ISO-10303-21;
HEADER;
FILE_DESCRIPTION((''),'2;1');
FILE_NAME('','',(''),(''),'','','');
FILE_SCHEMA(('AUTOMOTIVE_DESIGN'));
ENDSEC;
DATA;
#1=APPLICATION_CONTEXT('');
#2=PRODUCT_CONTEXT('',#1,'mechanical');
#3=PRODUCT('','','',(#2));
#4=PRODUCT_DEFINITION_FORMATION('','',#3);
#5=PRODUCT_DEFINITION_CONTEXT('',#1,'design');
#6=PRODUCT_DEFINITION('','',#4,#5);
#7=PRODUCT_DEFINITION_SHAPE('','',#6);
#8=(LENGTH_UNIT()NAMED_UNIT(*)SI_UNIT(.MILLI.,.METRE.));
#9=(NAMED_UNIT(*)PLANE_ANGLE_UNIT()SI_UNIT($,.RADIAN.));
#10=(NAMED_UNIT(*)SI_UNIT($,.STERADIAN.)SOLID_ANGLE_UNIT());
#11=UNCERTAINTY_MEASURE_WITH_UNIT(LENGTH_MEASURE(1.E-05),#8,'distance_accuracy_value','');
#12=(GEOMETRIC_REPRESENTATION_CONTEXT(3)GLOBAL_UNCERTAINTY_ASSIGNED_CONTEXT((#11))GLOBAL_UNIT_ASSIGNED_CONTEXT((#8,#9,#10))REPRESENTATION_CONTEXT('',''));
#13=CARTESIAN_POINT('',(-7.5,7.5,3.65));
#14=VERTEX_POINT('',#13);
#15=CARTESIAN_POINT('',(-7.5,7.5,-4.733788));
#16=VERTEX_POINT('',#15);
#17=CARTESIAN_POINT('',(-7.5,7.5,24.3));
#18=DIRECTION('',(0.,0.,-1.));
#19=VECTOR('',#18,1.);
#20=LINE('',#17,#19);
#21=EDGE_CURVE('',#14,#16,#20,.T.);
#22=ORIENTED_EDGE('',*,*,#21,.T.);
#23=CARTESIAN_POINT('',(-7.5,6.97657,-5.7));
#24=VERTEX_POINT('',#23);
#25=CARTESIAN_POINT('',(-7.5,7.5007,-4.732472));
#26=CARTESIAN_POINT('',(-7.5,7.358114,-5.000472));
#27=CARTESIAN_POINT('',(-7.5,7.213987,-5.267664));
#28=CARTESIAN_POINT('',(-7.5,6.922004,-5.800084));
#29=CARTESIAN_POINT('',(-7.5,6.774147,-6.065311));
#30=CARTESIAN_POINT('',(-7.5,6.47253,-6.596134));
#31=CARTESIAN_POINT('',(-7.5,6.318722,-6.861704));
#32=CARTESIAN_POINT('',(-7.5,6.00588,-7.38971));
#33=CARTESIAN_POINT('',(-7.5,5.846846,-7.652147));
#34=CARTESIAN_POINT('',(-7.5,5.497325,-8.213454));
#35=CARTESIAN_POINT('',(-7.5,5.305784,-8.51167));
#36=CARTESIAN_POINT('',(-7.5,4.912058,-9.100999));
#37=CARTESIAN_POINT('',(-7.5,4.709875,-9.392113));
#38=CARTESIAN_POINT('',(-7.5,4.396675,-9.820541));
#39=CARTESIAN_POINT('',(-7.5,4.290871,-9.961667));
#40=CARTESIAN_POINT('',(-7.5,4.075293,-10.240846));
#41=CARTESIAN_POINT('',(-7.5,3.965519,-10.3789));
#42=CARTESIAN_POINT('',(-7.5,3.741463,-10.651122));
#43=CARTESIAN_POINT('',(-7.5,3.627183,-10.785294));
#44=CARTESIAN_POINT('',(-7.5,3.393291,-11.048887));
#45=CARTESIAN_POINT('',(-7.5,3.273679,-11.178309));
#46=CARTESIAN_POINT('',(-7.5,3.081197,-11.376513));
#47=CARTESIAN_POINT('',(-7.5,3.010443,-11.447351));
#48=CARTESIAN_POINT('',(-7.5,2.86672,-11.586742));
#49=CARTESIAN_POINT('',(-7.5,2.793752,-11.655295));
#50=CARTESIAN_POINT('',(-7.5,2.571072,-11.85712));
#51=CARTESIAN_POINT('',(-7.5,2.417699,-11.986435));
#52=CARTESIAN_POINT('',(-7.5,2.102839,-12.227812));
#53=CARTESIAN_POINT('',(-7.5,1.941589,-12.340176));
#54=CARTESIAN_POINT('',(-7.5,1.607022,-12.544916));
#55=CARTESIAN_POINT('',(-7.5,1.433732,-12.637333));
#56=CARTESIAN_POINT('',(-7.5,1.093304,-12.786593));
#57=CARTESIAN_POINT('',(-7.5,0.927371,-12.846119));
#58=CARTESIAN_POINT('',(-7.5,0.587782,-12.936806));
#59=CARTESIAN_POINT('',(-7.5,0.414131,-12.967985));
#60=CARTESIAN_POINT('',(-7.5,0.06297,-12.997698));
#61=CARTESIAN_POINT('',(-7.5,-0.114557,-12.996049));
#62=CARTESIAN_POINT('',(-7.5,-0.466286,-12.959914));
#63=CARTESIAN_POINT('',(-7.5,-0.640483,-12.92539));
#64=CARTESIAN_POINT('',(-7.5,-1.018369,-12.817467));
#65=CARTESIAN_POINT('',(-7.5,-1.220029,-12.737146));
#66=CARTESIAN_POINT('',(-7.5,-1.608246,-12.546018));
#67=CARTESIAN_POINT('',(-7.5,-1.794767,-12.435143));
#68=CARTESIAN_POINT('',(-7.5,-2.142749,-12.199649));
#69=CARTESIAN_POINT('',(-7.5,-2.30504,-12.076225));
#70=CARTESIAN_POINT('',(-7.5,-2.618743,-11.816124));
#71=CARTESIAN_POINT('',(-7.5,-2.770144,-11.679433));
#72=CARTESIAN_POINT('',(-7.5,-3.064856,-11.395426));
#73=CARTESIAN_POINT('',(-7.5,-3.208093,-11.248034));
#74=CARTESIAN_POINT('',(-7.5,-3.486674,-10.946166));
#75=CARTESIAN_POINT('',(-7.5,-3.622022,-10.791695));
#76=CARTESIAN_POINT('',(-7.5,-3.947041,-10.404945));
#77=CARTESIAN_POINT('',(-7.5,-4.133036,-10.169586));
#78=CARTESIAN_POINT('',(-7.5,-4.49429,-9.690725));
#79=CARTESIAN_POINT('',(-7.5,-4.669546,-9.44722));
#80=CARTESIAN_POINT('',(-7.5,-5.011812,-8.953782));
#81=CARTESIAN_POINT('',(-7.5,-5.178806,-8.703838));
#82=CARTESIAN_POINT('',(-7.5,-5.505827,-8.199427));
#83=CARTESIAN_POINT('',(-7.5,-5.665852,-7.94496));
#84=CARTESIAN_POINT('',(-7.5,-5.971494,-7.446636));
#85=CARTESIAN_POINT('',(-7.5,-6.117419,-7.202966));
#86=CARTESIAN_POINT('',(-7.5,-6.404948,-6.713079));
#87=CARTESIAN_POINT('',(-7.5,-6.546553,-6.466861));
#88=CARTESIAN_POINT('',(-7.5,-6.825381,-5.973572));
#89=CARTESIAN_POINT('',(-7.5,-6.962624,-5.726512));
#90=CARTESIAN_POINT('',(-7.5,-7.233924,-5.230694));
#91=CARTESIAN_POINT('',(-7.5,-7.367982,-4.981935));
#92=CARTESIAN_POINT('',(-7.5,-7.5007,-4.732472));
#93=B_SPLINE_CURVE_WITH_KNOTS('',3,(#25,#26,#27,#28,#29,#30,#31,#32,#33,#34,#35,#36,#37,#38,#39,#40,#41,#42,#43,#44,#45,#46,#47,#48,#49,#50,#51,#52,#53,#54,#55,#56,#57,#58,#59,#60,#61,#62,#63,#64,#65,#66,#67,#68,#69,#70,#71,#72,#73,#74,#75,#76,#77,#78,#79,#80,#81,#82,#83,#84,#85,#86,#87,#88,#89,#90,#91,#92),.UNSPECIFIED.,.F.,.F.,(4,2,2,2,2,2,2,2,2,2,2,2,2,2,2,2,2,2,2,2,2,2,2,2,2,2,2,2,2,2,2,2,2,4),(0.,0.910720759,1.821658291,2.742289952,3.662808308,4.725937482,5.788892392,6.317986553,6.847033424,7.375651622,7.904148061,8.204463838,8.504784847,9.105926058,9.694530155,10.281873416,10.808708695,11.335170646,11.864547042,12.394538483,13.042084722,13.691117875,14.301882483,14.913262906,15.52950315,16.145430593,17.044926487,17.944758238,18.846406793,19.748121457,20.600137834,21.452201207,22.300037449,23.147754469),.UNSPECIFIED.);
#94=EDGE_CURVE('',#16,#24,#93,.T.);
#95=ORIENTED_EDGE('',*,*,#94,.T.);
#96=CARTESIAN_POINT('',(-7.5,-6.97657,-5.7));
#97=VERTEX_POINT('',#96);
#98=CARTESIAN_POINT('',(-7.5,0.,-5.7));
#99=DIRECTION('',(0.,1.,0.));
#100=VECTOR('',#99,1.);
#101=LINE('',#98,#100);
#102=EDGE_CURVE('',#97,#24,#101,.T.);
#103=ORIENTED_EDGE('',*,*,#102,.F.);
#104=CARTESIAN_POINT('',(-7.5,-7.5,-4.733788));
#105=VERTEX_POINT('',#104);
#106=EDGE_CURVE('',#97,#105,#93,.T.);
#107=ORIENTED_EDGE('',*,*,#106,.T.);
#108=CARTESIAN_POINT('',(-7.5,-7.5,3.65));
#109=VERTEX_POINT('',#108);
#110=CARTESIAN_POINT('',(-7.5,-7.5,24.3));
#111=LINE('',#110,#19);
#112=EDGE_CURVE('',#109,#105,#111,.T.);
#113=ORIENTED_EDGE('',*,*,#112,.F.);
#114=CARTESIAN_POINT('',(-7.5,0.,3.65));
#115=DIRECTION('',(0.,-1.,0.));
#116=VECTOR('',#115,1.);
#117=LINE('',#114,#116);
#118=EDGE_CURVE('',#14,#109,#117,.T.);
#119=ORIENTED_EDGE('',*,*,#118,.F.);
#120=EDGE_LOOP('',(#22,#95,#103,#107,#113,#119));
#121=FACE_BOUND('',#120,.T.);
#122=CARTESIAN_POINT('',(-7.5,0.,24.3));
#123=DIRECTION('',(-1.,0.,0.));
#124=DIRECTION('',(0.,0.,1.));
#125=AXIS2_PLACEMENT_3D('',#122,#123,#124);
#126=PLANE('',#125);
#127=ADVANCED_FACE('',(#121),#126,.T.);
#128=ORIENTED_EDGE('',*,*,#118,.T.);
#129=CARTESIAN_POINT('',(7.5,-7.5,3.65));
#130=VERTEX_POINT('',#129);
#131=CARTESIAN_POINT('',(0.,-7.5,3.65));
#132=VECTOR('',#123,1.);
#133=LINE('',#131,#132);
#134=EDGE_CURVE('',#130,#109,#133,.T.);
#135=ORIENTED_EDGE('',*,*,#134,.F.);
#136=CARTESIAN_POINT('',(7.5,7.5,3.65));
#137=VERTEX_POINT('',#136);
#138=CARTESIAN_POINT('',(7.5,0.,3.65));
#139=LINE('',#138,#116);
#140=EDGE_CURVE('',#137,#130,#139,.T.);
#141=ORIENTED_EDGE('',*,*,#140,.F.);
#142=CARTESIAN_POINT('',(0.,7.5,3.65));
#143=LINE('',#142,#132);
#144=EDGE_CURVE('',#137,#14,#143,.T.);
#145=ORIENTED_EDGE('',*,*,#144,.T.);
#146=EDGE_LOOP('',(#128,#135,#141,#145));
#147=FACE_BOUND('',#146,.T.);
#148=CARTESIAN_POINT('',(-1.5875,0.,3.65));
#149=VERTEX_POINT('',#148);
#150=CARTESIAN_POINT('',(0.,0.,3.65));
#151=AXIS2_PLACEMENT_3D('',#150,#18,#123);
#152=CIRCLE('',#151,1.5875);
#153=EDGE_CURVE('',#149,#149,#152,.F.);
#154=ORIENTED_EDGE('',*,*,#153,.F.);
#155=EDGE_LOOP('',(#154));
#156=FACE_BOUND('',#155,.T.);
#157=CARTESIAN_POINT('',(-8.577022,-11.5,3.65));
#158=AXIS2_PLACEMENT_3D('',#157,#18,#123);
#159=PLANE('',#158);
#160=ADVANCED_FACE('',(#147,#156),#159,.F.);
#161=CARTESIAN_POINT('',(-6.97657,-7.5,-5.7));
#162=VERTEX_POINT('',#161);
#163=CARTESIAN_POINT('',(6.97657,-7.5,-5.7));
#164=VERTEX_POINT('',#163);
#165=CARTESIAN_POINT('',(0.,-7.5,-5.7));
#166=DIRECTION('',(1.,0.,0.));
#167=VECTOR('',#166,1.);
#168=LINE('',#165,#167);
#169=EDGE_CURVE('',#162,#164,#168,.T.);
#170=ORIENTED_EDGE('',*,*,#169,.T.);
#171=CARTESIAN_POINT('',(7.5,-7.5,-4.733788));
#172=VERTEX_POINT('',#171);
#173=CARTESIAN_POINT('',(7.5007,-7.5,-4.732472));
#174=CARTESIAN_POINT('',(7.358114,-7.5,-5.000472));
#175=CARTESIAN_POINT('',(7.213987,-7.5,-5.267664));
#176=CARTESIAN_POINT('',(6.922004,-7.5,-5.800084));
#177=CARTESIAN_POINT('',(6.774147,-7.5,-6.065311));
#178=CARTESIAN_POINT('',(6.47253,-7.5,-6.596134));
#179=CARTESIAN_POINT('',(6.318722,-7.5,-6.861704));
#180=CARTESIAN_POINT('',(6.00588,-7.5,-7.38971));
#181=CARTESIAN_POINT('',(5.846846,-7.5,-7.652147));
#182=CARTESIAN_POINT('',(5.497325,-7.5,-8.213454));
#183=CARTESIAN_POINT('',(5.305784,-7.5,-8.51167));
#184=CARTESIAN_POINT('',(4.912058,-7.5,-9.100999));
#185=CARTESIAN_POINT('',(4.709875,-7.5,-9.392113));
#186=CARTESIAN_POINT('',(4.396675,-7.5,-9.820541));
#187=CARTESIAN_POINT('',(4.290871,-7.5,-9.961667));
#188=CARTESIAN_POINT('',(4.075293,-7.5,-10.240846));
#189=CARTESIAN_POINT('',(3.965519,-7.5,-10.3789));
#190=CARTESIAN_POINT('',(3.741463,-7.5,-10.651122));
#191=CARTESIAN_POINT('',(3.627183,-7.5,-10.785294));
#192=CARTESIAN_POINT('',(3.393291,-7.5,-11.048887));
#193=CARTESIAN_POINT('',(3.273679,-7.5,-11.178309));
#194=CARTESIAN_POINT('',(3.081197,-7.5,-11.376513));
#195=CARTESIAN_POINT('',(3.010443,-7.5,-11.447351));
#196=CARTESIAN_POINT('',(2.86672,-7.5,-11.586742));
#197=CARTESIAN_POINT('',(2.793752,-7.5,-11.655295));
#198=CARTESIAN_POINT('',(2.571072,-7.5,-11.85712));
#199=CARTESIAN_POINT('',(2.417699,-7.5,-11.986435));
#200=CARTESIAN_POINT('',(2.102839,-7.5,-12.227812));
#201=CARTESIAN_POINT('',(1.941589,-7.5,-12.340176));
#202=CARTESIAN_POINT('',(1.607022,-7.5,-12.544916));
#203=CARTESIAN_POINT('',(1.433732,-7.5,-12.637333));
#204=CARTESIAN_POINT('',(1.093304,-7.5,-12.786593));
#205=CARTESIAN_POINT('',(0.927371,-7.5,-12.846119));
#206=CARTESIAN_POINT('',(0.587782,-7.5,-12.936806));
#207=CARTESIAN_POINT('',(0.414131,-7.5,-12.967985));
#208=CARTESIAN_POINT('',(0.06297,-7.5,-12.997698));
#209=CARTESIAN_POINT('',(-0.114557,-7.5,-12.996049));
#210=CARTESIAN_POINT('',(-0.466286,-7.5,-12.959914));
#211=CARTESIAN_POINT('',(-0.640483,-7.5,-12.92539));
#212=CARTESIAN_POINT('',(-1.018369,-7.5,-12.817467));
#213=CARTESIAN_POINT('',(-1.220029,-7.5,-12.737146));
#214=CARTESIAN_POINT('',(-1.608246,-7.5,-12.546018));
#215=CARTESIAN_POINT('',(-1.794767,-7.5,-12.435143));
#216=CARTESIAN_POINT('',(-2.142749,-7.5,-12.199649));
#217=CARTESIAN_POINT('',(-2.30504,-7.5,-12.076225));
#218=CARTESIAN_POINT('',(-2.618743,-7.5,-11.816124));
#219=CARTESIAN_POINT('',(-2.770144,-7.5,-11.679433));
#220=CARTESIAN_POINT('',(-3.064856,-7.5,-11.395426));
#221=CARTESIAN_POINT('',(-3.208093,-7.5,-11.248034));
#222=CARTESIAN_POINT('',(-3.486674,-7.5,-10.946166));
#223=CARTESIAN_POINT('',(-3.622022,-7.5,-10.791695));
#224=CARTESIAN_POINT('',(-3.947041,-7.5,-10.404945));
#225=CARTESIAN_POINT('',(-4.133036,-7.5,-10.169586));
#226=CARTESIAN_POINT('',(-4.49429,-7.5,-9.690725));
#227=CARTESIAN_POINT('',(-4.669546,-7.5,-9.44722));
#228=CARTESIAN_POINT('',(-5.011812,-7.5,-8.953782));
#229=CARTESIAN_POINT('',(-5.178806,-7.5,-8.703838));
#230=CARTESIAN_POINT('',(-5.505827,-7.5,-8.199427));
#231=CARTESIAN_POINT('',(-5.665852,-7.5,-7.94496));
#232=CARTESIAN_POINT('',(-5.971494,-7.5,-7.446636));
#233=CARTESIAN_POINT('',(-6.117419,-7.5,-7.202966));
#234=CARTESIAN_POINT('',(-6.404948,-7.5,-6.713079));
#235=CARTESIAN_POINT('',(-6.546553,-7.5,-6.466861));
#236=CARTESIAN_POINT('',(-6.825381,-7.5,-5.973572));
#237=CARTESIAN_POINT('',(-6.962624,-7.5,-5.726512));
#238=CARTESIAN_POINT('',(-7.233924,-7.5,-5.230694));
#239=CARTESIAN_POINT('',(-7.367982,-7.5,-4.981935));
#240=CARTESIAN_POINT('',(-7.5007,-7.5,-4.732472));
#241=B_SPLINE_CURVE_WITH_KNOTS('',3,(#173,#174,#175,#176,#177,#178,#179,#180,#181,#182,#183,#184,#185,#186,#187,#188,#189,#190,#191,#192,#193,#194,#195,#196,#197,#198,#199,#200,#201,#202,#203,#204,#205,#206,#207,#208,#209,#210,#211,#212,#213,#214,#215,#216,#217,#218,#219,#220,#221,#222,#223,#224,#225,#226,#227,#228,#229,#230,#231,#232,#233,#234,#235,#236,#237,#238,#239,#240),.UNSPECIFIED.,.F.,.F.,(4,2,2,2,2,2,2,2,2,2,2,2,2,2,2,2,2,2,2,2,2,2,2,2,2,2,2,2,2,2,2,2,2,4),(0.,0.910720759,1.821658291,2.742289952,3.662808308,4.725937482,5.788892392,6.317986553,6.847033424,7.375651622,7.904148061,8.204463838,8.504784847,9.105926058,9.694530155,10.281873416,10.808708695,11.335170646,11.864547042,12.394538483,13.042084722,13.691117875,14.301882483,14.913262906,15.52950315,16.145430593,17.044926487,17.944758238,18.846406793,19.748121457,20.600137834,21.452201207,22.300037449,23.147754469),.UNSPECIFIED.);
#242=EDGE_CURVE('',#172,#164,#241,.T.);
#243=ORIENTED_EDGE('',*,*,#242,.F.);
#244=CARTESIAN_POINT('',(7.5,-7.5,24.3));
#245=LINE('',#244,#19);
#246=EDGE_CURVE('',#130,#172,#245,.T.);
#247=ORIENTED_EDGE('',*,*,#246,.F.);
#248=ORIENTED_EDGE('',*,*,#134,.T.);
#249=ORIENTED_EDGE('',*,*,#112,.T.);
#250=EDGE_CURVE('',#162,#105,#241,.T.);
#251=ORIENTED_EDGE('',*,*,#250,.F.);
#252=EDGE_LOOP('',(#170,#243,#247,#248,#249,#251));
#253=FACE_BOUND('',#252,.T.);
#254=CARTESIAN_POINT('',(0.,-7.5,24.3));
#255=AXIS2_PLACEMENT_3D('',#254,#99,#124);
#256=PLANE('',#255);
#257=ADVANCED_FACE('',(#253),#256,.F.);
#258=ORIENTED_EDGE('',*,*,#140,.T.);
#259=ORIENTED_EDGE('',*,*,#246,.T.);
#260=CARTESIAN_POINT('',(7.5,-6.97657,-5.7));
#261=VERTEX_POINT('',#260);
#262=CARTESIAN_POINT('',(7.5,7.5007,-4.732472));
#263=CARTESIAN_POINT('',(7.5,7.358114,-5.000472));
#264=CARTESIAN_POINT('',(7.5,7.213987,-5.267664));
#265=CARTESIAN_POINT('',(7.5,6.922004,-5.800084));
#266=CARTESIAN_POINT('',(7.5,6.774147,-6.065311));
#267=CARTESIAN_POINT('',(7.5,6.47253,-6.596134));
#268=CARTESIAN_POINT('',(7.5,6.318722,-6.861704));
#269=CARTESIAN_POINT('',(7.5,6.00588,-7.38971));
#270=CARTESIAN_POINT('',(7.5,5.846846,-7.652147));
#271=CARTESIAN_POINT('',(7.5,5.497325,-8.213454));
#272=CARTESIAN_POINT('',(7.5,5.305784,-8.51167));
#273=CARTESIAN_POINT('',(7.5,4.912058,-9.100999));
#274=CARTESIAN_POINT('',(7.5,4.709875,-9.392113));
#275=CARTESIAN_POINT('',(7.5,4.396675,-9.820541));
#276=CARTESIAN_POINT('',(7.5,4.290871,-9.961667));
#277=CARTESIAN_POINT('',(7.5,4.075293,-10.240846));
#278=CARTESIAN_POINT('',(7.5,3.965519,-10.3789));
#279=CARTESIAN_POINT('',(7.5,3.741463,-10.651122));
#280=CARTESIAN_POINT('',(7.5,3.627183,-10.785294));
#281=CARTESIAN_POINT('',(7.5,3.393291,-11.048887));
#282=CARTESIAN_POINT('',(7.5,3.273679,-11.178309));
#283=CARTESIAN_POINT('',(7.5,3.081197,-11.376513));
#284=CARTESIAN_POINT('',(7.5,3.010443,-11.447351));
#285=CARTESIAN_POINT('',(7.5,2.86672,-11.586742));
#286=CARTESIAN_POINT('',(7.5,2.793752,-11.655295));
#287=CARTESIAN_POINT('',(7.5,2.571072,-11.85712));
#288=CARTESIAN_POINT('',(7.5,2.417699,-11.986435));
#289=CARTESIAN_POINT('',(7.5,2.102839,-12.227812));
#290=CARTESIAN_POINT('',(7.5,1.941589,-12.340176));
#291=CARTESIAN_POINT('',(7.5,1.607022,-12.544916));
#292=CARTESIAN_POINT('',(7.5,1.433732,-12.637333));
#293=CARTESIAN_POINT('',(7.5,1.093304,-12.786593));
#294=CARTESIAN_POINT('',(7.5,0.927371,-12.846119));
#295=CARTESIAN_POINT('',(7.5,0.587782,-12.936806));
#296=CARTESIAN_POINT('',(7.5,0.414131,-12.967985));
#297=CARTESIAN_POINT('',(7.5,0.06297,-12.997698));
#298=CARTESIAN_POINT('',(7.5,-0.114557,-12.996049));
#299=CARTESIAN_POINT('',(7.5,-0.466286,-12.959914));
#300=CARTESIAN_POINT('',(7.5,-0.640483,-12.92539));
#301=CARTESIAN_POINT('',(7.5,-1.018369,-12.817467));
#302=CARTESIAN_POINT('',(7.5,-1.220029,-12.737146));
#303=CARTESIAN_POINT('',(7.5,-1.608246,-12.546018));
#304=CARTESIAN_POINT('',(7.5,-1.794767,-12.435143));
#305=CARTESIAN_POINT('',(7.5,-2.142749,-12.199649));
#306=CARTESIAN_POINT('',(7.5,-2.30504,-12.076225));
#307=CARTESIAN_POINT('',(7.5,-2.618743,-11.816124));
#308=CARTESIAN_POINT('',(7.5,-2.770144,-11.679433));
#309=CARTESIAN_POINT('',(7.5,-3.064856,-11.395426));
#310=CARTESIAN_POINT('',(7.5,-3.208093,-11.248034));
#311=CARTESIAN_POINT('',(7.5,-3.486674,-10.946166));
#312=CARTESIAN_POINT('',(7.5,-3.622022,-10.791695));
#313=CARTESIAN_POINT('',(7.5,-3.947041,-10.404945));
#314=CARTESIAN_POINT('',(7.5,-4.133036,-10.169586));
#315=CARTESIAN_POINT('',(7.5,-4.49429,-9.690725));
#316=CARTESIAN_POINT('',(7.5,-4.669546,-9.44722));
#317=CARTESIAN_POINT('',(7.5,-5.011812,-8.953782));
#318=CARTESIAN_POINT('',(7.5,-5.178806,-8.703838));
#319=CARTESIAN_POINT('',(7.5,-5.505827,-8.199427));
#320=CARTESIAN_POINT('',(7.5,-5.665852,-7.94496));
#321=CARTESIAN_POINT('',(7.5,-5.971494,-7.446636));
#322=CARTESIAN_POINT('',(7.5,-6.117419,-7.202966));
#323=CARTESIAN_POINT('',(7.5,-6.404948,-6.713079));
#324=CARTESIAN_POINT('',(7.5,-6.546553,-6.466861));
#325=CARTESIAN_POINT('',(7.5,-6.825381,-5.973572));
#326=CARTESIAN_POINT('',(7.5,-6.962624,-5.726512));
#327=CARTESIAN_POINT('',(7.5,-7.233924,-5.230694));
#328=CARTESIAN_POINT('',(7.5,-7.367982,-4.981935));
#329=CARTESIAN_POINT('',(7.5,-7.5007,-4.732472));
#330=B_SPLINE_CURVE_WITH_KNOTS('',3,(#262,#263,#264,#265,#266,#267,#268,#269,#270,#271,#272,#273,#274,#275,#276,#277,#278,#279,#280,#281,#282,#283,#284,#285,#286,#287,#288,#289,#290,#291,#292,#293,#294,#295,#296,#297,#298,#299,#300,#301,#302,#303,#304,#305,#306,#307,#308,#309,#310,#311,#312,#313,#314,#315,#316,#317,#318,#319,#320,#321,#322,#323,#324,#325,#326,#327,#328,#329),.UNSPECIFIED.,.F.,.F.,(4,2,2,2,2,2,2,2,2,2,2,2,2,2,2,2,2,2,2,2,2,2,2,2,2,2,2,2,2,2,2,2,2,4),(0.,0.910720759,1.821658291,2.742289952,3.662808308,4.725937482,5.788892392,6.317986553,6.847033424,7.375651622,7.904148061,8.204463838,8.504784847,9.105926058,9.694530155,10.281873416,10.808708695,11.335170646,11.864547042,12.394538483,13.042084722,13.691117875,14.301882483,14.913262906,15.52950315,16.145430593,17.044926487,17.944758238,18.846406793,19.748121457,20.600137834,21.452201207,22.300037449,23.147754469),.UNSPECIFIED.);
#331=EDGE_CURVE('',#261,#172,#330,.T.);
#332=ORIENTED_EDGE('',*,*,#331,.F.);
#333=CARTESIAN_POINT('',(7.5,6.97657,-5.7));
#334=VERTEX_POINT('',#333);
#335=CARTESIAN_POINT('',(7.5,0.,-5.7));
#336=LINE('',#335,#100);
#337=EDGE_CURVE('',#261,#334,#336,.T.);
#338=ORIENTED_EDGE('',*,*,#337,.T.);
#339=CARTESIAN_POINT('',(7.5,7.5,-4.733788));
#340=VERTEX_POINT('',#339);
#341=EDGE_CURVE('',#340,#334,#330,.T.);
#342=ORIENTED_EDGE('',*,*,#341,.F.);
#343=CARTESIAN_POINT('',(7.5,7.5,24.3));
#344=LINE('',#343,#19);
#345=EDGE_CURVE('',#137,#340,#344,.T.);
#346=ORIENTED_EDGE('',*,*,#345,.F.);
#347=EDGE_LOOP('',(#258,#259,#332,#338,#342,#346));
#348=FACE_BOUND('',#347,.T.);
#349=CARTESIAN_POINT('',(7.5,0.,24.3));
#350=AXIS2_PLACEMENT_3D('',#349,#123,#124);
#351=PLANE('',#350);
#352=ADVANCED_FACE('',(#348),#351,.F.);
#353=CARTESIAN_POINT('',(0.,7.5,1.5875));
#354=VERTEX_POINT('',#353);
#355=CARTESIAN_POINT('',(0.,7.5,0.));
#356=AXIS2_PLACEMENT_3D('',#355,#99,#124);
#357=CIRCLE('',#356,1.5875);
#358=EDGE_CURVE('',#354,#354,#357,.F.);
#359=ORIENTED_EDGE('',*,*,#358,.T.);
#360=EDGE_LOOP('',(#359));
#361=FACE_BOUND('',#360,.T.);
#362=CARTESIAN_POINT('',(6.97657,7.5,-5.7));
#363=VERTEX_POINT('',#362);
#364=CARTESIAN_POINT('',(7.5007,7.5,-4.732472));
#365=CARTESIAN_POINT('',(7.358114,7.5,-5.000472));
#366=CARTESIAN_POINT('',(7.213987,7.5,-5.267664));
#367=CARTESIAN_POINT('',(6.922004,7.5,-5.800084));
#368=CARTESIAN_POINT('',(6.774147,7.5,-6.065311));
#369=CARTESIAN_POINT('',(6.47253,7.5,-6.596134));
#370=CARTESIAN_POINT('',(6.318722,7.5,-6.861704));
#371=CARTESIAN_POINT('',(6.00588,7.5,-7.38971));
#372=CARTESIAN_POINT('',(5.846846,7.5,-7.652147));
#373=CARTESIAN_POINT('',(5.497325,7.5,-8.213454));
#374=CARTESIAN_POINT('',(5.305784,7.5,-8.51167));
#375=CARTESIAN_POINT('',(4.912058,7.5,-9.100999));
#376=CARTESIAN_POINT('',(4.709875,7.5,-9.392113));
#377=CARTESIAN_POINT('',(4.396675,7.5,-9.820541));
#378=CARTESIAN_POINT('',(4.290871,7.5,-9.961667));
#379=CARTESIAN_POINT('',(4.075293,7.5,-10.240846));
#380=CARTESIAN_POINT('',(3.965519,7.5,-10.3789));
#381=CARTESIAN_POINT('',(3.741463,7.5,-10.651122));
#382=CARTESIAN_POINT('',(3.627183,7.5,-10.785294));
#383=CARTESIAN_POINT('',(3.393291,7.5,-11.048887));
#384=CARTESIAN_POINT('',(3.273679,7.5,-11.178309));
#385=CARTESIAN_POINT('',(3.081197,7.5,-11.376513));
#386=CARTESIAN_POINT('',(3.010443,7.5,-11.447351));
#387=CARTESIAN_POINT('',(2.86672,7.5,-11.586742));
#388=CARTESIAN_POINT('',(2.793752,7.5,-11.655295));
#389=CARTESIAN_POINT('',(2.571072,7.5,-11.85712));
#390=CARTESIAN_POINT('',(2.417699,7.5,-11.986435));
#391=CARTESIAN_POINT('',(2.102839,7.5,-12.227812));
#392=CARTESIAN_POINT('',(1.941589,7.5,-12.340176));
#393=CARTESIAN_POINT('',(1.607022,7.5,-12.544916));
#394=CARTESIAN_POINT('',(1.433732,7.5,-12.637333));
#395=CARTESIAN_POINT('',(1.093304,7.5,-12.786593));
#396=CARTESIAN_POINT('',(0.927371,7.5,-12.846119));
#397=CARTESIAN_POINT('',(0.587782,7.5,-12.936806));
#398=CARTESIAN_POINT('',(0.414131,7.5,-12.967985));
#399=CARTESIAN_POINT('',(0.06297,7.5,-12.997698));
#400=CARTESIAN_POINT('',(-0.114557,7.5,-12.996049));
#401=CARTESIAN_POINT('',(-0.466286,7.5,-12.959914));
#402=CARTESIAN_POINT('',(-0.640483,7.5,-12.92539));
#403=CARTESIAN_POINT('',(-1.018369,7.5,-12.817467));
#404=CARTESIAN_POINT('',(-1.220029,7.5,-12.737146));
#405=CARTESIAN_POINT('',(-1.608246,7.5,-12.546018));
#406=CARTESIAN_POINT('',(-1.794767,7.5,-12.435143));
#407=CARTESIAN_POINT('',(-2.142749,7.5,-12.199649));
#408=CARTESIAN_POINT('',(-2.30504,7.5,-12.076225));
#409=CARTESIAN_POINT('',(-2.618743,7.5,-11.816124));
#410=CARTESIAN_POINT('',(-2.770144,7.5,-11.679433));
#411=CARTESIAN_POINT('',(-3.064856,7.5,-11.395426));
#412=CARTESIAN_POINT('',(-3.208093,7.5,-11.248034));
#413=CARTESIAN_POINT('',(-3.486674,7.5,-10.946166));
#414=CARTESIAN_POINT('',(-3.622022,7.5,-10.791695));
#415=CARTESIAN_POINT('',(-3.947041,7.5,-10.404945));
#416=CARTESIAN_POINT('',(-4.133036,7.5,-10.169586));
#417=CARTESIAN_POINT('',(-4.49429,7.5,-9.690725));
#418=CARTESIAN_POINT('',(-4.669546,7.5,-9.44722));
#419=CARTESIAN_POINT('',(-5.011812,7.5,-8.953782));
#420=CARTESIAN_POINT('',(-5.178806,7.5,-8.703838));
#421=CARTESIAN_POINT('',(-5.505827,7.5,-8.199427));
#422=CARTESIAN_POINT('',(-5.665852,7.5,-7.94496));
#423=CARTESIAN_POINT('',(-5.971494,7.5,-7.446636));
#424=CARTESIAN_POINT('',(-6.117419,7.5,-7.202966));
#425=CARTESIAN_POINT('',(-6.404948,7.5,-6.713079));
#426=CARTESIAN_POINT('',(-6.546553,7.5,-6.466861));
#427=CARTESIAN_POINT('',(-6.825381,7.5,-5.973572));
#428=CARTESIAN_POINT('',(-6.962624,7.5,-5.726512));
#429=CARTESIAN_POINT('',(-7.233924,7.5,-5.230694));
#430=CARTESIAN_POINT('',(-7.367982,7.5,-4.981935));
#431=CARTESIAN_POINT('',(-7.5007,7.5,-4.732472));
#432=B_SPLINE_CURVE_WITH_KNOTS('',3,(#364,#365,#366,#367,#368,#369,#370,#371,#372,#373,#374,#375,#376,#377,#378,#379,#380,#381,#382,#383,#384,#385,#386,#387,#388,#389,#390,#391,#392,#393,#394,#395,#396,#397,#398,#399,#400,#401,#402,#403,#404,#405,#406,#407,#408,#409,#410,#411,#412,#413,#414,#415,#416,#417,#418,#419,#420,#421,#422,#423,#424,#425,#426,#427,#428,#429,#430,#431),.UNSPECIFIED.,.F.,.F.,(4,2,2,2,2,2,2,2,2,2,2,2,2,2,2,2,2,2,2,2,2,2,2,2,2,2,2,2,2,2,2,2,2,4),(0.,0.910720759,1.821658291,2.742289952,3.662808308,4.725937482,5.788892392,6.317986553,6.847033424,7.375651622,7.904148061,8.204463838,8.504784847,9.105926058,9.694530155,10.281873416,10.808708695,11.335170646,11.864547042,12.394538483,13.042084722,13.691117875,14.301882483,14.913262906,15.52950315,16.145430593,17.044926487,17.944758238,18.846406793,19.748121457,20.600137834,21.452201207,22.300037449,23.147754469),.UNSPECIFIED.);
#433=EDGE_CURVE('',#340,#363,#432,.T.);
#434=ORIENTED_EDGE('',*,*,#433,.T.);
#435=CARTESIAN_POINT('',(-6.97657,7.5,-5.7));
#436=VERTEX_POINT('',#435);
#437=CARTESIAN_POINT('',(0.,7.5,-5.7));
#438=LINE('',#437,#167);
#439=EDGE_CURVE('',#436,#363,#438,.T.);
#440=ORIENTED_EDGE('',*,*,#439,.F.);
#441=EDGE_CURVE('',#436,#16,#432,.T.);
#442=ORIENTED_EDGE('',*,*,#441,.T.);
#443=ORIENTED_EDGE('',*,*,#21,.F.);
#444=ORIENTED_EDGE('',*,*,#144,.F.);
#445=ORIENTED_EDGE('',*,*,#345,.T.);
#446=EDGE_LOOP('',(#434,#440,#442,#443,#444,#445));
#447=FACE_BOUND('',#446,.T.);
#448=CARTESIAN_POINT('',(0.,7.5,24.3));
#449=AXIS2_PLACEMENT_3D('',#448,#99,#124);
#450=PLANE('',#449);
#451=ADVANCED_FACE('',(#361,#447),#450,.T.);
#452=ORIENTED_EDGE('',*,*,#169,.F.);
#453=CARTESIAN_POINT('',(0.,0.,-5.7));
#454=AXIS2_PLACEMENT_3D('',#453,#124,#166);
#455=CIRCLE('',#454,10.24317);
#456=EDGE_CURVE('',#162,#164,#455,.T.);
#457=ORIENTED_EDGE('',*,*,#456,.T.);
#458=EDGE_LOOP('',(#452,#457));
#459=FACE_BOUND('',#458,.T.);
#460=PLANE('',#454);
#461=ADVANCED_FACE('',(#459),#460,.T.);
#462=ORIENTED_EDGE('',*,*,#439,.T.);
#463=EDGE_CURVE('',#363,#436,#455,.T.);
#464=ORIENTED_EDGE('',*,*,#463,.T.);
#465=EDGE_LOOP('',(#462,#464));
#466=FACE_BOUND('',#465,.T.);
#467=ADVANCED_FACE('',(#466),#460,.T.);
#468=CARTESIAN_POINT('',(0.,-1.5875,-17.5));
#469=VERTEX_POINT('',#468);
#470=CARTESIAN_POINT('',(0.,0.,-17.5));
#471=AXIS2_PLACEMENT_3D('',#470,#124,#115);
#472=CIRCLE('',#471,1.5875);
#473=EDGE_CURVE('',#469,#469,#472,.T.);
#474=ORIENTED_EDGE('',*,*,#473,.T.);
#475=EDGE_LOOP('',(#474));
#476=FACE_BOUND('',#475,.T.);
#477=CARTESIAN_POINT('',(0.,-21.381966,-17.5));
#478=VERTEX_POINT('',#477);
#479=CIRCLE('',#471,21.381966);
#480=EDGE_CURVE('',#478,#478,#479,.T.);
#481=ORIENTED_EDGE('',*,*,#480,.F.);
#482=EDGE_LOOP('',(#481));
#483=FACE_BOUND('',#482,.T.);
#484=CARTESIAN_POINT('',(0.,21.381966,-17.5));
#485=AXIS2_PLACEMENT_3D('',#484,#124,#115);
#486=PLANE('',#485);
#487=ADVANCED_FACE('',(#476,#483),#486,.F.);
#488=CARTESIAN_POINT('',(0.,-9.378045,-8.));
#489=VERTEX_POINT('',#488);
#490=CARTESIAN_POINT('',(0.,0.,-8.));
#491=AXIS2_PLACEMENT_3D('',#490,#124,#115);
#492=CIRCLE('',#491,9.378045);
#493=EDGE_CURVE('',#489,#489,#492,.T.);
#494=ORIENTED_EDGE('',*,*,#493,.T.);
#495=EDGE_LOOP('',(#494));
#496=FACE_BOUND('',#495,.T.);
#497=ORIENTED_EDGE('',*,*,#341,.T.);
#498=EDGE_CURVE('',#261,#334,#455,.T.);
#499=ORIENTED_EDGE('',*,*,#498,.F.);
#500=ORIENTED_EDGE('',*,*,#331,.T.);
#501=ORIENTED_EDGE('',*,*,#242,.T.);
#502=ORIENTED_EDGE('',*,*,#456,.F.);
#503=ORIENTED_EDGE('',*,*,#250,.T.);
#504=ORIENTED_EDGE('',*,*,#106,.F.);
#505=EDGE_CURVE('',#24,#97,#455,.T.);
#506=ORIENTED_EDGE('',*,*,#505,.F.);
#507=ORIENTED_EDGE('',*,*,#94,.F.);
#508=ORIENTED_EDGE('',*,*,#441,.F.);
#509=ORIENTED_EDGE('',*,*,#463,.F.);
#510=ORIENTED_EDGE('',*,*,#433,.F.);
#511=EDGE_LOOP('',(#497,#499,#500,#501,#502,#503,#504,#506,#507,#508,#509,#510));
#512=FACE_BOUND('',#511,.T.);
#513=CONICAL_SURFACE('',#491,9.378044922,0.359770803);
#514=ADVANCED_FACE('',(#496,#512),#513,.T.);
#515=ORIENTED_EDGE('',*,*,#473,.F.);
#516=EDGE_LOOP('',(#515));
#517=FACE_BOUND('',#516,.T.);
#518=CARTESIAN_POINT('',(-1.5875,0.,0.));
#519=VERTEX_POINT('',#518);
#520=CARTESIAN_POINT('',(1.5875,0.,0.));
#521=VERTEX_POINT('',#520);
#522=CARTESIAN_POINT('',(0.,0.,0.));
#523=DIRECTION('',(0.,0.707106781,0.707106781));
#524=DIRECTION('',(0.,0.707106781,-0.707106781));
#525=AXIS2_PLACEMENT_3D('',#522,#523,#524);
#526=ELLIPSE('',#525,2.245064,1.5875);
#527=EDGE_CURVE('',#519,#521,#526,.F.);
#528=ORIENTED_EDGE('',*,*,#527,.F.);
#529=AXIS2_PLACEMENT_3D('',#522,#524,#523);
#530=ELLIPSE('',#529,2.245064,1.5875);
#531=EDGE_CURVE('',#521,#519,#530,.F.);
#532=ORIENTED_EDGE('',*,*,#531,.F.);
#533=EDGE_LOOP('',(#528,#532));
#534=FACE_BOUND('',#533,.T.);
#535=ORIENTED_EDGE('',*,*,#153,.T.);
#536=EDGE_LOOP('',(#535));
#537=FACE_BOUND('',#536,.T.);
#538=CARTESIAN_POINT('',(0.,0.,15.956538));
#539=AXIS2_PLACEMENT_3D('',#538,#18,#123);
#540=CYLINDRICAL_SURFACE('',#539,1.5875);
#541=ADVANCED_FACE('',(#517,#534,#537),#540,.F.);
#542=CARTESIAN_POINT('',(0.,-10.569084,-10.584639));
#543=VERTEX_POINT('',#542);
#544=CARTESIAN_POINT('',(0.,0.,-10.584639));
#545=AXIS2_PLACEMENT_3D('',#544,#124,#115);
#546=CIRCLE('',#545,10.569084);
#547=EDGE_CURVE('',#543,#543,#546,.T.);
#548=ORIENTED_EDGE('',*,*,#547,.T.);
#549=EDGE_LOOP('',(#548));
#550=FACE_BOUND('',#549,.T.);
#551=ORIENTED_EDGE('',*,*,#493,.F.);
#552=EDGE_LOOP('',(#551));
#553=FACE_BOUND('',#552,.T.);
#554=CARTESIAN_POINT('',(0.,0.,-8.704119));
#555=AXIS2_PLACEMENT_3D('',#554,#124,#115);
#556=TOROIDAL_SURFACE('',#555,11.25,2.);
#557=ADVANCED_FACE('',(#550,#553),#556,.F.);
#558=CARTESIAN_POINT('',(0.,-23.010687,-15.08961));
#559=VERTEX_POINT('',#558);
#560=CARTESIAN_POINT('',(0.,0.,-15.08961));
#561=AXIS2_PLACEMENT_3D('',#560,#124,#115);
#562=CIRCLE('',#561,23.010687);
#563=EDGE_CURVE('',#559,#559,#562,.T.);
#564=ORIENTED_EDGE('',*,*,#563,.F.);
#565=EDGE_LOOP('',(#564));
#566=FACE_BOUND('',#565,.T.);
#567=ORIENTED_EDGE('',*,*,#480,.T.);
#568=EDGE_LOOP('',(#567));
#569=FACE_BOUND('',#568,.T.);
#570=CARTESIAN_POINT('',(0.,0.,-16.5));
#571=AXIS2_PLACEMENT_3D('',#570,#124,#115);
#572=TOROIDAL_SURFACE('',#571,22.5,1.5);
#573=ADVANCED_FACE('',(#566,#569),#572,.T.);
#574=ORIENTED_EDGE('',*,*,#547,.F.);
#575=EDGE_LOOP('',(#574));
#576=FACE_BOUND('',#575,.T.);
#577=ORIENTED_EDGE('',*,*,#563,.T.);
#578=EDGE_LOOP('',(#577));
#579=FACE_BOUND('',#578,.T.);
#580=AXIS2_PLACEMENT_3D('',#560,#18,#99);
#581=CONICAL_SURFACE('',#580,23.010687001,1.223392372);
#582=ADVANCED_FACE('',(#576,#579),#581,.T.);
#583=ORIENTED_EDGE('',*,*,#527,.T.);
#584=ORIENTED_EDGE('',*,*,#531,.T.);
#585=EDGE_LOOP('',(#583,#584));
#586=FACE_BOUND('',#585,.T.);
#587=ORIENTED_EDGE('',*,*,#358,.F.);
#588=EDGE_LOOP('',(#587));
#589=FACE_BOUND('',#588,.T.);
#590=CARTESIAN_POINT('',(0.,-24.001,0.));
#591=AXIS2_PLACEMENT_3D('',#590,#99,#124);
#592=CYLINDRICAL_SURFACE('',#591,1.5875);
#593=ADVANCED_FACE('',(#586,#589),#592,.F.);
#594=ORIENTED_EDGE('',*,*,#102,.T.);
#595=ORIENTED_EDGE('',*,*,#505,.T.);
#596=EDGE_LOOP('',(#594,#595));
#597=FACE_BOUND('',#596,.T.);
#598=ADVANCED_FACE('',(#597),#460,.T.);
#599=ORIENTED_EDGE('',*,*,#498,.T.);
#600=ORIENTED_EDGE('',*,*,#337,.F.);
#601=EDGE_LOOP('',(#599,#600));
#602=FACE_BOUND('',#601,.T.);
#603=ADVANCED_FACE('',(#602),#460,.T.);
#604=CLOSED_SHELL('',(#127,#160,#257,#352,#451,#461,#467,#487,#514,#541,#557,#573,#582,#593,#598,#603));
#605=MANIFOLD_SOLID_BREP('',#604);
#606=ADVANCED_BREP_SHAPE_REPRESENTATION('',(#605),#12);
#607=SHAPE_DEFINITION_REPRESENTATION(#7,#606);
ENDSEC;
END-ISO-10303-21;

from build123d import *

# Parameters (mm, degrees)
SKETCH3_R                      = 1.5875
CUT_EXTRUDE1_DEPTH             = 1.5000001
CUT_EXTRUDE1_DEPTH_BACK        = 34.456537644
CUT_EXTRUDE2_REACH             = 70.5
SKETCH5_R                      = 1.5875
CUT_EXTRUDE2_DIRECTION_2_DEPTH = 1
CUT_EXTRUDE3_START             = -5.7
SKETCH7_W                      = 73.641561492
SKETCH7_H                      = 95.167537828
SKETCH7_W_2                    = 15
SKETCH7_H_2                    = 15
CUT_EXTRUDE3_DEPTH             = 30
SKETCH8_W                      = 22.620718333
SKETCH8_H                      = 11.010276543
CUT_EXTRUDE4_DEPTH             = 19


with BuildPart() as part:
    # Sketch2 → Revolve1 (revolve)
    with BuildSketch(Plane(origin=(0, 0, 0), x_dir=(0, 0, -1), z_dir=(1, 0, 0))):
        with BuildLine():
            Line((8, 9.378044922), (-13.252418104, 17.371955078))
            ThreePointArc((-13.252418104, 17.371955078), (-15.64910376, 16.565466847), (-15.34, 14.055689912))
            ThreePointArc((-15.34, 14.055689912), (-10.902736423, 7.641374531), (-9.34, 0))
            Line((-9.34, 0), (17.5, 0))
            Line((17.5, 0), (17.5, 21.381966011))
            ThreePointArc((17.5, 21.381966011), (17.339814217, 23.742864466), (15.089610413, 23.010687001))
            Line((15.089610413, 23.010687001), (10.584638888, 10.569083998))
            ThreePointArc((10.584638888, 10.569083998), (9.541151557, 9.433581206), (8, 9.378044922))
        make_face()
    revolve(axis=Axis((0, 0, 9.34), (0, 0, -1)))

    # Sketch6 → Cut-Revolve1 (revolve, cut)
    with BuildSketch(Plane(origin=(0, 0, 0), x_dir=(1, 0, 0), z_dir=(0, 1, 0))):
        Polygon((-15.003814977, -6.956537544), (-14.995054438, -6.959832743), (-17.361955078, -13.252418104), (-17.371955078, -13.252418104), align=None)
    revolve(axis=Axis((0, 0, 0), (0, 0, 1)), mode=Mode.SUBTRACT)

    # Sketch3 → Cut-Extrude1 (cut, two sides)
    with BuildSketch(Plane(origin=(0, 0, -17.5), x_dir=(-1, 0, 0), z_dir=(0, 0, -1))) as cut_extrude1_sk:
        Circle(SKETCH3_R)
    extrude(amount=CUT_EXTRUDE1_DEPTH, mode=Mode.SUBTRACT)
    extrude(cut_extrude1_sk.sketch, amount=-CUT_EXTRUDE1_DEPTH_BACK, mode=Mode.SUBTRACT)

    # Sketch4 → Revolve2 (revolve)
    with BuildSketch(Plane.XY):
        Polygon((0, 1.5875), (5.5, 1.5875), (5.5, 28.5), (4.5, 28.5), (4, 32.5), (4.5, 32.5), (4, 36.5), (4.5, 36.5), (4, 40.5), (4.5, 40.5), (4, 44.5), (0, 44.5), (0, 28.5), align=None)
    revolve(axis=Axis((0, 0, 0), (0, 1, 0)))

    # Sketch5 → Cut-Extrude2 (cut, up to next)
    with BuildSketch(Plane(origin=(0, 44.5, 0), x_dir=(1, 0, 0), z_dir=(0, 1, 0)), mode=Mode.PRIVATE) as cut_extrude2_sk1:
        Circle(SKETCH5_R)
    cut_extrude2_tool1 = extrude(cut_extrude2_sk1.sketch, amount=-CUT_EXTRUDE2_REACH, mode=Mode.PRIVATE) & part.part
    add(cut_extrude2_tool1.solids().sort_by_distance((0, 44.5, 0))[0], mode=Mode.SUBTRACT)

    # Sketch5 → Cut-Extrude2 direction 2 (cut)
    with BuildSketch(Plane(origin=(0, 44.5, 0), x_dir=(1, 0, 0), z_dir=(0, 1, 0))):
        Circle(SKETCH5_R)
    extrude(amount=CUT_EXTRUDE2_DIRECTION_2_DEPTH, mode=Mode.SUBTRACT)

    # Sketch7 → Cut-Extrude3 (cut)
    with BuildSketch(Plane.XY.offset(CUT_EXTRUDE3_START)):
        Rectangle(SKETCH7_W, SKETCH7_H)
        Rectangle(SKETCH7_W_2, SKETCH7_H_2, mode=Mode.SUBTRACT)
    extrude(amount=CUT_EXTRUDE3_DEPTH, mode=Mode.SUBTRACT)

    # Sketch8 → Cut-Extrude4 (cut)
    with BuildSketch(Plane(origin=(0, 7.5, 0), x_dir=(1, 0, 0), z_dir=(0, 1, 0))):
        with Locations((2.733336799, -9.155138272)):
            Rectangle(SKETCH8_W, SKETCH8_H)
    extrude(amount=-CUT_EXTRUDE4_DEPTH, mode=Mode.SUBTRACT)


solid = part.part
